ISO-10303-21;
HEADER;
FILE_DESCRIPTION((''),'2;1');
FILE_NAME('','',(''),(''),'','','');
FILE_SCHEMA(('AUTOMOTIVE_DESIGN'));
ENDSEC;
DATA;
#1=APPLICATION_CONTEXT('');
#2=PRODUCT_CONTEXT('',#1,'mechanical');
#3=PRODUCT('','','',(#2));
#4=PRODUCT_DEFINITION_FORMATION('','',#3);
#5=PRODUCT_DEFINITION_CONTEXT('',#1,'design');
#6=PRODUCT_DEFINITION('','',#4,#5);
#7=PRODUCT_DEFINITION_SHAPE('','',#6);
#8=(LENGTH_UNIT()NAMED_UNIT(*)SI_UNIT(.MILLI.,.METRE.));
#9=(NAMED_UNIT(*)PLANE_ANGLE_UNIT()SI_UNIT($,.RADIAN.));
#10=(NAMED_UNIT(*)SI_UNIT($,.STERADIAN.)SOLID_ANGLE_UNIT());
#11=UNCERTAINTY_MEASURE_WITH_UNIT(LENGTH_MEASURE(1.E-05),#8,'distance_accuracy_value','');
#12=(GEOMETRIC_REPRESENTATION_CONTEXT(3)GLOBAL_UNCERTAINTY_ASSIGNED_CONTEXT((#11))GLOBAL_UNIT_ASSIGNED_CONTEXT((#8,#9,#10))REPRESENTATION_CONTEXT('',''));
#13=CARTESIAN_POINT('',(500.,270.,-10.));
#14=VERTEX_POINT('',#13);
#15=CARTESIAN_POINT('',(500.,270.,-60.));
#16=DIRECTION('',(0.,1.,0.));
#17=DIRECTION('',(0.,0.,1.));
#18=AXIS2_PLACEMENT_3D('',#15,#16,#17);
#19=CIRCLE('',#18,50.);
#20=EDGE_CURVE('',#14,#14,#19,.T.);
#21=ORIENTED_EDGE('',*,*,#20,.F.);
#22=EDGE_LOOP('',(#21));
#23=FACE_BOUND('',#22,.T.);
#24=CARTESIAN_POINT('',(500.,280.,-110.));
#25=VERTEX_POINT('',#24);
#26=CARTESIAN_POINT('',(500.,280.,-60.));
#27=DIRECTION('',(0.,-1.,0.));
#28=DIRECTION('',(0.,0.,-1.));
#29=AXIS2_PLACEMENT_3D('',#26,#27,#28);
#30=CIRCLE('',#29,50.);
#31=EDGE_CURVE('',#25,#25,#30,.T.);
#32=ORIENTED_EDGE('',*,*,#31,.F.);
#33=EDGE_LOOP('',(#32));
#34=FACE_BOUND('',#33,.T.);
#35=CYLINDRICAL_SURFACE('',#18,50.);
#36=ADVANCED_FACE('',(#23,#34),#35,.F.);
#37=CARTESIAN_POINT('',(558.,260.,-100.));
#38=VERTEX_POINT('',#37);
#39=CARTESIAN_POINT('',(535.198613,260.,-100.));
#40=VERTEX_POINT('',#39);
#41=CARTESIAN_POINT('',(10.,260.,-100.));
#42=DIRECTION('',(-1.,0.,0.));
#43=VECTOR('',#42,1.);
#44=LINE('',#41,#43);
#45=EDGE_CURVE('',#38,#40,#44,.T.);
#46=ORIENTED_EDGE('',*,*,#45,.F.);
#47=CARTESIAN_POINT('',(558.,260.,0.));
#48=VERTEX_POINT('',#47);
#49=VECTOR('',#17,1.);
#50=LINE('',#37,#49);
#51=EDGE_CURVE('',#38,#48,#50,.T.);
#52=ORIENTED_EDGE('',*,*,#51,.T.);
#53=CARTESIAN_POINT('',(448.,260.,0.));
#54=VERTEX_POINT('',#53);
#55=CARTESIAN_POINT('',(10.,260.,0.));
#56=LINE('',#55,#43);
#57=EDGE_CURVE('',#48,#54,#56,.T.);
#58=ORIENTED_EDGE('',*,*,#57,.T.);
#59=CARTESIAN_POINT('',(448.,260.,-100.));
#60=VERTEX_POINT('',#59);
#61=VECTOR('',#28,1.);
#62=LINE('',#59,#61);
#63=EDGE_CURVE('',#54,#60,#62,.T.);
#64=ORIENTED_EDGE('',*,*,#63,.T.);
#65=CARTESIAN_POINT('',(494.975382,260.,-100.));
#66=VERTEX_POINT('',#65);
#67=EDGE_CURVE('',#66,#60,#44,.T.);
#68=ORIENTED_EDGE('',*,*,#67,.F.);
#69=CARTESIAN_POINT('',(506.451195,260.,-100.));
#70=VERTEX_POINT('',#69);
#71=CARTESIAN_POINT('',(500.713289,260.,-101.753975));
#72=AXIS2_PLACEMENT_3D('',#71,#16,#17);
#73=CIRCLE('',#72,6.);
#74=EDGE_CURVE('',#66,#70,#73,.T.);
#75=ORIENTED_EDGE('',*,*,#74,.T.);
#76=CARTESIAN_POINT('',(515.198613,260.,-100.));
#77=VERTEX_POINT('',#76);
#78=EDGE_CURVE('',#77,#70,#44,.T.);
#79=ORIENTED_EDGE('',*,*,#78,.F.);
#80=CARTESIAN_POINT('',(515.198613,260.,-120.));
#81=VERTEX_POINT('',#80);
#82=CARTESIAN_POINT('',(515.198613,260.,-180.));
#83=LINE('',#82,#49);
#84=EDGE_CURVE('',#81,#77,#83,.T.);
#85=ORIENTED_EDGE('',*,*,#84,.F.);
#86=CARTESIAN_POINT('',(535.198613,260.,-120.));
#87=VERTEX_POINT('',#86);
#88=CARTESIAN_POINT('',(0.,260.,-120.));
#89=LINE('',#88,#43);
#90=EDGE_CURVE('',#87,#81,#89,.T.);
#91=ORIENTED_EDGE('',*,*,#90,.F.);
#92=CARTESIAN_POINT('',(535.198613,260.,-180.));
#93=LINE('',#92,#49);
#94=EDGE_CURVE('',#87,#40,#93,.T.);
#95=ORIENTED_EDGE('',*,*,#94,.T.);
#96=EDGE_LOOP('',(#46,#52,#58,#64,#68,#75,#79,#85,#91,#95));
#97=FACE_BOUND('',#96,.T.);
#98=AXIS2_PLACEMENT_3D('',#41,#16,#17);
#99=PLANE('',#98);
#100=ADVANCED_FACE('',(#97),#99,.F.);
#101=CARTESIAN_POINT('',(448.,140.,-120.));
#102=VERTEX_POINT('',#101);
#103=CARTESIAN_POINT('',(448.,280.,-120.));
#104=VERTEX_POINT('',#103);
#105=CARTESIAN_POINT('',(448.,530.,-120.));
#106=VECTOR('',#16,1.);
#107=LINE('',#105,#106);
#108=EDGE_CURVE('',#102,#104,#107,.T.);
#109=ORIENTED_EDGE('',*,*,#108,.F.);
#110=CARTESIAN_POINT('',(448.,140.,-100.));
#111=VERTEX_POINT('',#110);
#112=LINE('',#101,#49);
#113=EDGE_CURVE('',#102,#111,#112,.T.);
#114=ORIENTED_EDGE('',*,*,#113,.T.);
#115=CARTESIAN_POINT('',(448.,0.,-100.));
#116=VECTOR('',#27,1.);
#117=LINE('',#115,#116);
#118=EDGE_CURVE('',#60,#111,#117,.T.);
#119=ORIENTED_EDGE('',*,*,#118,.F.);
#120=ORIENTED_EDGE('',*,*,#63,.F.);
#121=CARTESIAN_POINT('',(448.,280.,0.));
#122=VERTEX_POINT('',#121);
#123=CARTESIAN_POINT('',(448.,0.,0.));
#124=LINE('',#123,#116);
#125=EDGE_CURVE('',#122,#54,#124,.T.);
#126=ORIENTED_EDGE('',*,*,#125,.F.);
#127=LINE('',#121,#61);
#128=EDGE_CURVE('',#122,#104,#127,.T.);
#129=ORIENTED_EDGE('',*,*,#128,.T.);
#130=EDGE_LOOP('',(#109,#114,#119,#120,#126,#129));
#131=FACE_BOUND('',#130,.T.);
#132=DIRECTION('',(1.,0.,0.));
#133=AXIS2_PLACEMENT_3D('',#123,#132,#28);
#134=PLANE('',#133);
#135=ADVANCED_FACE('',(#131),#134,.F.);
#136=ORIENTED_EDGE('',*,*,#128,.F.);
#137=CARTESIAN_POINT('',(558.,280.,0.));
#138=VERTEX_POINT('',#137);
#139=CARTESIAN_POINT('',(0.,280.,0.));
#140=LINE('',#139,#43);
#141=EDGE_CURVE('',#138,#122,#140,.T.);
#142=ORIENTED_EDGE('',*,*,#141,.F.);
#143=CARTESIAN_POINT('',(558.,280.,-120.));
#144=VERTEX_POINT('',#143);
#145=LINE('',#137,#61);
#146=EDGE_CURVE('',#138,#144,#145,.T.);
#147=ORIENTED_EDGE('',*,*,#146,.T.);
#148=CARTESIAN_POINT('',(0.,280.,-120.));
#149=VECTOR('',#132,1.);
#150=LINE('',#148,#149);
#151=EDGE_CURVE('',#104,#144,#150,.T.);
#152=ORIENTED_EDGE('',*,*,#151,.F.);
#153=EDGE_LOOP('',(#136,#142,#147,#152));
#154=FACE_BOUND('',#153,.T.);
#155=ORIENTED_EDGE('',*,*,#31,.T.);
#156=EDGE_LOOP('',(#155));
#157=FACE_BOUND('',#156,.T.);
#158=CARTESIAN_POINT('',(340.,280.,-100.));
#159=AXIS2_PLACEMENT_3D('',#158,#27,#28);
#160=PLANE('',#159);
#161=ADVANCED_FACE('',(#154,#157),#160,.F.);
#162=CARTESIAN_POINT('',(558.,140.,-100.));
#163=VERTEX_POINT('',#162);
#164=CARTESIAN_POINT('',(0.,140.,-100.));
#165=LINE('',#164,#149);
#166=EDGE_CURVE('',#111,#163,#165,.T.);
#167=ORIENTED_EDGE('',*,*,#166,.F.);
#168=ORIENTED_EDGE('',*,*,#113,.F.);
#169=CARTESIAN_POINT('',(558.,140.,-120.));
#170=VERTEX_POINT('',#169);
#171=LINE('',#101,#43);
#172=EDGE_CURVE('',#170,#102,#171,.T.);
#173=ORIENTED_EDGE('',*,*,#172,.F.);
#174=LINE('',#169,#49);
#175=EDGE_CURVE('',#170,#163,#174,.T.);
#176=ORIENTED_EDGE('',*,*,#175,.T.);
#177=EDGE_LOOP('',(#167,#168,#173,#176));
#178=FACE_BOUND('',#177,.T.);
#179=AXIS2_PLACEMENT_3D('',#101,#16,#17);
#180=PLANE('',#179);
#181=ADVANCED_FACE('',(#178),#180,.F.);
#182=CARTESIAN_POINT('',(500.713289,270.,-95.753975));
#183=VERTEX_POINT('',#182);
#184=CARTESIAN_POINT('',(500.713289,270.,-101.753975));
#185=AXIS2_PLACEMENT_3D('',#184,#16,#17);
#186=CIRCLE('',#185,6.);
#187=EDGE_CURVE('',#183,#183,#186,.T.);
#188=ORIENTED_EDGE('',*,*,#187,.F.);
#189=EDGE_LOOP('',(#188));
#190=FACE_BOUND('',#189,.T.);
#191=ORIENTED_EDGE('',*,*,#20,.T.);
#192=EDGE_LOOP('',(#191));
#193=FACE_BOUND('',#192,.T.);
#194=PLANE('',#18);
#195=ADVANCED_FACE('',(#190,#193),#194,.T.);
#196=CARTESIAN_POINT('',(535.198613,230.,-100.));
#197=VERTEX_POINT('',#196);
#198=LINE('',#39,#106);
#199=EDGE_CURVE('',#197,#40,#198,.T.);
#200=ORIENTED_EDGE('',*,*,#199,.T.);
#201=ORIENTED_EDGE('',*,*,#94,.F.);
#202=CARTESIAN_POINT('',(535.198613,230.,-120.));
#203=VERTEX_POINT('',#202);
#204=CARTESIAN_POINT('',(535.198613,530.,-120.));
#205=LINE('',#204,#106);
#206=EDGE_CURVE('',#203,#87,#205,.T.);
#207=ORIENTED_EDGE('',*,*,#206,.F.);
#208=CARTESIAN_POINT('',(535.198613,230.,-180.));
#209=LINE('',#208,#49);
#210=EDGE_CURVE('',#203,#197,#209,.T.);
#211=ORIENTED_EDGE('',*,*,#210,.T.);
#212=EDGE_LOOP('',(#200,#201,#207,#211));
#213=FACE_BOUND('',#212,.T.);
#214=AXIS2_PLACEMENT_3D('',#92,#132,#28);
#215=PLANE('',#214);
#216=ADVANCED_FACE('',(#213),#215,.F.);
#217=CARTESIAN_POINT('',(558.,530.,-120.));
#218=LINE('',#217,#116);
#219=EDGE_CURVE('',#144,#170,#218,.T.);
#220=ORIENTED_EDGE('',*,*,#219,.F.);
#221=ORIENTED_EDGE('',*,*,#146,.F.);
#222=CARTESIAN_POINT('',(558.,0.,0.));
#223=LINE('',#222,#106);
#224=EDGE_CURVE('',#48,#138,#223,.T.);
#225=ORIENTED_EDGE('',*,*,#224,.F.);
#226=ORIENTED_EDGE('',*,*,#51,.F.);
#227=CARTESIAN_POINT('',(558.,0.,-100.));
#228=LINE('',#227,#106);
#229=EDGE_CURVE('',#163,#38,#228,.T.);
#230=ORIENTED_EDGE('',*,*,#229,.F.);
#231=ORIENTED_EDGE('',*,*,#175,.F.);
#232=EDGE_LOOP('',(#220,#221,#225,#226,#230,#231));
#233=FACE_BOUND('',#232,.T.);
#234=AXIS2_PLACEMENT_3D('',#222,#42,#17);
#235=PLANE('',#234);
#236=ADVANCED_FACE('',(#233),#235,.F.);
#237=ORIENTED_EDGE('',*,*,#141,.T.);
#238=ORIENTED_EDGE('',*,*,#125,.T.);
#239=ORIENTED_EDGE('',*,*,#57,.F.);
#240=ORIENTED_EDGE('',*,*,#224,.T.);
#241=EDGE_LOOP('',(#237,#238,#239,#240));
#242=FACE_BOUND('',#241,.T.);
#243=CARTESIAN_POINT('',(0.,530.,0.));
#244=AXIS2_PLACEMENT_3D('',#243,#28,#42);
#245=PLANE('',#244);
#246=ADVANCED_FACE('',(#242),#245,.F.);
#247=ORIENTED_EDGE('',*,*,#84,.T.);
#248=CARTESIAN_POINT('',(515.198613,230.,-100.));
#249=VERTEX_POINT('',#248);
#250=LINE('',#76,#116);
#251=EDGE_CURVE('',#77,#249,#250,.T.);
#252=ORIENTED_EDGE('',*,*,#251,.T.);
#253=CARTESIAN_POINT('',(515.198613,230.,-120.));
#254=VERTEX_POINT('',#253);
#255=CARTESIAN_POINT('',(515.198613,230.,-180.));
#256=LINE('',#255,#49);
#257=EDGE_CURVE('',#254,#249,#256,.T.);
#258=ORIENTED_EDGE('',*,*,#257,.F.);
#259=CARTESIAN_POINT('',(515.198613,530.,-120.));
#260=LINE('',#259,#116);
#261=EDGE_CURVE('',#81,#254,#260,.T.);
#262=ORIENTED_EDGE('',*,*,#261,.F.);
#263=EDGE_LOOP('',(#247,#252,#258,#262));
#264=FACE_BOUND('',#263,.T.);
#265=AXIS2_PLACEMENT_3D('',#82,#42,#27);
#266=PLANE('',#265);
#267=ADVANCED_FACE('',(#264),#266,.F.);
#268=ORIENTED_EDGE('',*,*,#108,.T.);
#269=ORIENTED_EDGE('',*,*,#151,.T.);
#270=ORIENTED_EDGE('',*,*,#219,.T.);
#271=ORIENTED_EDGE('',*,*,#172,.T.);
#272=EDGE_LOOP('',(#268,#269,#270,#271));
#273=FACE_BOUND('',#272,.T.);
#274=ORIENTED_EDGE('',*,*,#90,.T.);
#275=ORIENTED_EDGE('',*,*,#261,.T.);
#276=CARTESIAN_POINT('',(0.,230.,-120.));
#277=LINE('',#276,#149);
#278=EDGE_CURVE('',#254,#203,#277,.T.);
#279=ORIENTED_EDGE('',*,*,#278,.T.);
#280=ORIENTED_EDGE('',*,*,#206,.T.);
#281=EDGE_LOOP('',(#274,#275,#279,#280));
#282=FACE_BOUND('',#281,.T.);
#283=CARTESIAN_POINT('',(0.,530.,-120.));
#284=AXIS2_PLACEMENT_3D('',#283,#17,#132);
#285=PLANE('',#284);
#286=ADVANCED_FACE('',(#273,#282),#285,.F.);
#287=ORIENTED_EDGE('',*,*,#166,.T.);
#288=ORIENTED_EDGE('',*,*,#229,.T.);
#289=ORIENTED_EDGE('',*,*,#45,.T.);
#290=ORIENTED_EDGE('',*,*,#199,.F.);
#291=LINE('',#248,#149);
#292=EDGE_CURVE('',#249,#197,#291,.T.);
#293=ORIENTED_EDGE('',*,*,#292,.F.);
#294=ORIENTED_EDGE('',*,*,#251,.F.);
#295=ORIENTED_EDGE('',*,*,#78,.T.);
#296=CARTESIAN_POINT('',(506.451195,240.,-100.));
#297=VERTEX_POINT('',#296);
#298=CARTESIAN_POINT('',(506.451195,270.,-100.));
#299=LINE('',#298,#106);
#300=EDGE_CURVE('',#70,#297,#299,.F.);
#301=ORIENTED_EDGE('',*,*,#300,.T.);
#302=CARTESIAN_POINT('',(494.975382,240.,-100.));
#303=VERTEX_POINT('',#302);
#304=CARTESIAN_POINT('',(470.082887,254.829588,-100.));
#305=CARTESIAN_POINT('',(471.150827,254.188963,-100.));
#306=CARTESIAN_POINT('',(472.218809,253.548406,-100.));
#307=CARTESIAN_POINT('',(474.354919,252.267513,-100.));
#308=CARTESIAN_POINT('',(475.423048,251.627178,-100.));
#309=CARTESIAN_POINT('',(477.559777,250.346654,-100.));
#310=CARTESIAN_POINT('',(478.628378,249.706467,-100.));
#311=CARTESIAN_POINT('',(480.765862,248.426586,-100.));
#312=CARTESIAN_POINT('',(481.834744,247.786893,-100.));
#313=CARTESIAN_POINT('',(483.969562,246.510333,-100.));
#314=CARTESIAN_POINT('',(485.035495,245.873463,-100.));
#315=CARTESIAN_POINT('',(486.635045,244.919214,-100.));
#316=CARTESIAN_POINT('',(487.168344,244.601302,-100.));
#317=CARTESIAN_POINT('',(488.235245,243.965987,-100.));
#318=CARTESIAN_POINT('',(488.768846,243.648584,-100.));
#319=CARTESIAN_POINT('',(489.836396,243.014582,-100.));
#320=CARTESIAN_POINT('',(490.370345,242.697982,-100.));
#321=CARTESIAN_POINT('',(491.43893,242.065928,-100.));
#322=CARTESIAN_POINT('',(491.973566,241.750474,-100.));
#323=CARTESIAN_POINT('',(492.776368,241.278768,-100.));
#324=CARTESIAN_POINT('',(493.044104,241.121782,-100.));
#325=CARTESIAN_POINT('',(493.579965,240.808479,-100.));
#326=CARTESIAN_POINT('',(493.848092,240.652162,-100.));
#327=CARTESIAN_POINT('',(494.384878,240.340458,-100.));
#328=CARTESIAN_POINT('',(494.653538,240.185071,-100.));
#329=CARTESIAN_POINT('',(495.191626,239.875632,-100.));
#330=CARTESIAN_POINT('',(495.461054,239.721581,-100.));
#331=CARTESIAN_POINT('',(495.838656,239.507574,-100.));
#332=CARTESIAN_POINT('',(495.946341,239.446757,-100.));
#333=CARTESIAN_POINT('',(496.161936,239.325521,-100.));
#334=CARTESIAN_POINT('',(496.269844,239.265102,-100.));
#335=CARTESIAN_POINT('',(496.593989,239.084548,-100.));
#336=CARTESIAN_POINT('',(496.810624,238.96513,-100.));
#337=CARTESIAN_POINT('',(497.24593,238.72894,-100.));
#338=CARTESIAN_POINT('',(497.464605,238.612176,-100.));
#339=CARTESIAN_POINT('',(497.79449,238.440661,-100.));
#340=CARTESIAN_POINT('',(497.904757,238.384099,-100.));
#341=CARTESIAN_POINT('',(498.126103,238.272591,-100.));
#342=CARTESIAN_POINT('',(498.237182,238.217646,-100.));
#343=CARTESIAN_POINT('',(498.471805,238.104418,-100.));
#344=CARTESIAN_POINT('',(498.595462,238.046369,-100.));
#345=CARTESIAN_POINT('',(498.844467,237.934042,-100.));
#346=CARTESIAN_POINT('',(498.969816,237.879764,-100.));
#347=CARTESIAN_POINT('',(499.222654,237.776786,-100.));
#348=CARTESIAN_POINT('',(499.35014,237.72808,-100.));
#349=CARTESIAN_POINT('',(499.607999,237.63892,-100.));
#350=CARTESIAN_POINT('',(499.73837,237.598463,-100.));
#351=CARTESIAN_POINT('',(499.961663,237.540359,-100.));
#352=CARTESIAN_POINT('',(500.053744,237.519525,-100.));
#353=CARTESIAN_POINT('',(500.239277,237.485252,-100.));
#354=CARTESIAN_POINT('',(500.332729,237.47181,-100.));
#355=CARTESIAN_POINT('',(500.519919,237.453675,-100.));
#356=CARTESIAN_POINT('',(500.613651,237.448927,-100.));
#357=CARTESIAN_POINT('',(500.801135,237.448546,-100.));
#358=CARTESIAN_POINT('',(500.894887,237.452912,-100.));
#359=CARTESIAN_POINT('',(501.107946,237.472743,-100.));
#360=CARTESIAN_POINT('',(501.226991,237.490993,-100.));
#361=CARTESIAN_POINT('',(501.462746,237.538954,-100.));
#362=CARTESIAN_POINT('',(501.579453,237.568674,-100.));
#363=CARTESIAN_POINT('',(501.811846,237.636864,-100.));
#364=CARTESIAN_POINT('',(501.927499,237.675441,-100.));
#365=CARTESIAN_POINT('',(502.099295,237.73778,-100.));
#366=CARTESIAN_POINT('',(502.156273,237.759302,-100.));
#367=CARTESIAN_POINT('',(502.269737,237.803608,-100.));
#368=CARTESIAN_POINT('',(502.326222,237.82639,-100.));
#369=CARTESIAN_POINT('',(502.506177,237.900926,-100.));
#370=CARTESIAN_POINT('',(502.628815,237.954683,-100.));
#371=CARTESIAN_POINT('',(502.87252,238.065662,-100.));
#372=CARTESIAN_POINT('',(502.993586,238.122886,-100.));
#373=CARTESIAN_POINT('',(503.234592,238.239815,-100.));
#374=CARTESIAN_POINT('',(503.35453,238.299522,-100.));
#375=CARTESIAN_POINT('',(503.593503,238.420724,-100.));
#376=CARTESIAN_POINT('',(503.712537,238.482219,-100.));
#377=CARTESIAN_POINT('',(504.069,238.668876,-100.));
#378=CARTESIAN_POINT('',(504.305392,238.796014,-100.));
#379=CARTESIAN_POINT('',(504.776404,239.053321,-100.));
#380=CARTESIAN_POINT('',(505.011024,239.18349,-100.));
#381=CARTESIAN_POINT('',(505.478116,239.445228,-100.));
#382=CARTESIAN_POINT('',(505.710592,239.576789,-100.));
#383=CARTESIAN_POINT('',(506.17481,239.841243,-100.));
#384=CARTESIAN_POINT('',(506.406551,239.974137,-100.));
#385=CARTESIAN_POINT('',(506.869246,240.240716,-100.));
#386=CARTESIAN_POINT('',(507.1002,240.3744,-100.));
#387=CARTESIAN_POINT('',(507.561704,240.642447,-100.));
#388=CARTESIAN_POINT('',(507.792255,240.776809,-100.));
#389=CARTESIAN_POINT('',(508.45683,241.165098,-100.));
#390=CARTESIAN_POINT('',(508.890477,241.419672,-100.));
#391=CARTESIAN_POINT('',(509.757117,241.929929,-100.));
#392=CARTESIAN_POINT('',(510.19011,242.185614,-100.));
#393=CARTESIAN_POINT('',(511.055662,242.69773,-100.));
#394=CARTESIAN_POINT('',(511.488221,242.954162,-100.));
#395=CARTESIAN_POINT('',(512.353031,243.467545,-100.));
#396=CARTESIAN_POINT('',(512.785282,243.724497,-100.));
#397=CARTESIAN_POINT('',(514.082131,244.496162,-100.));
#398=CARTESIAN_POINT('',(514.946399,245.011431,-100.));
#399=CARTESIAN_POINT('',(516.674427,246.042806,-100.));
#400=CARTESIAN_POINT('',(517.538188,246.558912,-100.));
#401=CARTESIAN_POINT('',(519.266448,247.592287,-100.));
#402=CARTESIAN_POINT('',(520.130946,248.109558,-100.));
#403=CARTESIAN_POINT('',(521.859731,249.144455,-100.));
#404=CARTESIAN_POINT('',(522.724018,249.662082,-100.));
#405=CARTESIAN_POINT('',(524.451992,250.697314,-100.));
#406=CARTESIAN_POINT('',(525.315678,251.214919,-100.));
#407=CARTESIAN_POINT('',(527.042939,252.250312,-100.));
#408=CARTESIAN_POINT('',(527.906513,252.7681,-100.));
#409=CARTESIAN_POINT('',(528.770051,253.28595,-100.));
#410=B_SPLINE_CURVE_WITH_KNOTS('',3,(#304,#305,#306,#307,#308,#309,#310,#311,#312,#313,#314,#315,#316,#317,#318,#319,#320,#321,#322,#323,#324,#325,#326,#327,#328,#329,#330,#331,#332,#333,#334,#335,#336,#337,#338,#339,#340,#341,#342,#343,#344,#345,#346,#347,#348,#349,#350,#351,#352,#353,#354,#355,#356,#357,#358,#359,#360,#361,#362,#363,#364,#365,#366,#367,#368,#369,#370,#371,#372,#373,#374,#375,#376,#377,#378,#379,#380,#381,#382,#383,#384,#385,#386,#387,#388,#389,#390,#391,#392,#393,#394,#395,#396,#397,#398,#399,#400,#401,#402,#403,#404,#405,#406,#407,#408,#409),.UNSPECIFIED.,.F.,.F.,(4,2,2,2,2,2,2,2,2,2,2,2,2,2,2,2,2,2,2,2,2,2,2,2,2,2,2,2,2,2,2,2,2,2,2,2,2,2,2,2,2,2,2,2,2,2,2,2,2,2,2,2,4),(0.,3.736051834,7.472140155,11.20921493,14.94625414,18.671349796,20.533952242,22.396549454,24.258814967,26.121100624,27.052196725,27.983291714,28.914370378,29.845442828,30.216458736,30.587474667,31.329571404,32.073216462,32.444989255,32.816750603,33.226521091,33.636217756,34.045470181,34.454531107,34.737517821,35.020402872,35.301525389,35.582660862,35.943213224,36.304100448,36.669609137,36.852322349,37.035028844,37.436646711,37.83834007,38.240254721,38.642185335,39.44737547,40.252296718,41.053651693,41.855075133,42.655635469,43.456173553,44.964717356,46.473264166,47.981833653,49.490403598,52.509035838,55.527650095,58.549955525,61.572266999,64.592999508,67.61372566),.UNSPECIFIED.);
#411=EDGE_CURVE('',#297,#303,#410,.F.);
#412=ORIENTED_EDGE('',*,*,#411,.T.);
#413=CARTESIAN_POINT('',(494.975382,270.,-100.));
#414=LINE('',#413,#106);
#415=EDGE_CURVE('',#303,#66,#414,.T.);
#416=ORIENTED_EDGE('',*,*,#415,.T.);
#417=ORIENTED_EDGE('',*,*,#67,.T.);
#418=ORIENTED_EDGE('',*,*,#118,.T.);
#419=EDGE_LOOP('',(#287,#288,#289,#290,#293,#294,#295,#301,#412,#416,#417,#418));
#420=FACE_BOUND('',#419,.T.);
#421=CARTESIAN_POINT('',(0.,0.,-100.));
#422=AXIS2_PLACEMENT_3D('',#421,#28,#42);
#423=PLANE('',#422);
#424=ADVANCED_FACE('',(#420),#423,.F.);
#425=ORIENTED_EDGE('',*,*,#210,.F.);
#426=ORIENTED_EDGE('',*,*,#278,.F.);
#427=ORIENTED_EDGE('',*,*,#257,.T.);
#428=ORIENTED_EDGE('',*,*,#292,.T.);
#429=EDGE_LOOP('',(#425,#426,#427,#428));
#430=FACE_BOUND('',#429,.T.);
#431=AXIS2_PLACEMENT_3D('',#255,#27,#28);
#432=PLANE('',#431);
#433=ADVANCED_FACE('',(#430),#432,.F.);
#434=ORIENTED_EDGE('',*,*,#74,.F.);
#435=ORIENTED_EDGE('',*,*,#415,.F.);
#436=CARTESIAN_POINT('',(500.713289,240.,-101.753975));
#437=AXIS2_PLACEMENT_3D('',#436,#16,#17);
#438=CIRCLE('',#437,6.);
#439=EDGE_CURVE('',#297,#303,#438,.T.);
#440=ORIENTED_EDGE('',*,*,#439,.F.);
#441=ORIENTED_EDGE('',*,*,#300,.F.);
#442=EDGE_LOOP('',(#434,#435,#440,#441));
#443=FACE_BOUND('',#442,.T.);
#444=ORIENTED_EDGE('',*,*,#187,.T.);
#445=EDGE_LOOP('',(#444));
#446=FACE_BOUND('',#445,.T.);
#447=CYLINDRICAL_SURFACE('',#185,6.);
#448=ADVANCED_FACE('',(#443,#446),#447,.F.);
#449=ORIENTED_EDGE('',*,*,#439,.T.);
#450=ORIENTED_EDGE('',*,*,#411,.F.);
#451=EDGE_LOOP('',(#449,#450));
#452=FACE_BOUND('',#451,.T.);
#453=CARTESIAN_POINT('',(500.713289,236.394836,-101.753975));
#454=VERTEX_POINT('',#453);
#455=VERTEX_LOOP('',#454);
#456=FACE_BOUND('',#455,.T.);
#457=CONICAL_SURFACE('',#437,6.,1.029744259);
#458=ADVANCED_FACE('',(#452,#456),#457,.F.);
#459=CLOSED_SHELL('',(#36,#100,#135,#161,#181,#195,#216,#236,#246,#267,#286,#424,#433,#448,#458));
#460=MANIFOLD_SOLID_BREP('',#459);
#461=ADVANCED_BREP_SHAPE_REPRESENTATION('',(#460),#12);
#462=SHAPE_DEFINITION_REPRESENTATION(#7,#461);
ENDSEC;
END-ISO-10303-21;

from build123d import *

# Parameters (mm, degrees)
SKETCH1_W                      = 670
SKETCH1_H                      = 120
BOSS_EXTRUDE1_DEPTH            = 530
SKETCH2_W                      = 100
SKETCH2_H                      = 200
SKETCH2_W_2                    = 650
SKETCH2_H_2                    = 250
CUT_EXTRUDE1_DEPTH             = 100
SKETCH3_R                      = 50
CUT_EXTRUDE2_DEPTH             = 260
F_12_0_12_DIAMETER_HOLE2_D     = 12
F_12_0_12_DIAMETER_HOLE2_DEPTH = 30
F_12_0_12_DIAMETER_HOLE2_TIP   = 3.605163714
SKETCH8_W                      = 650
SKETCH8_H                      = 50
BOSS_EXTRUDE2_DEPTH            = 5
SKETCH9_W                      = 10
SKETCH9_H                      = 250
CUT_EXTRUDE3_DEPTH             = 717
CUT_EXTRUDE4_DEPTH             = 5
SKETCH11_W                     = 10
SKETCH11_H                     = 100
BOSS_EXTRUDE3_DEPTH            = 78
BOSS_EXTRUDE3_2_DEPTH          = 78
BOSS_EXTRUDE3_3_DEPTH          = 78
SKETCH12_W                     = 20
SKETCH12_H                     = 30
CUT_EXTRUDE5_DEPTH             = 80
SKETCH15_W                     = 30
SKETCH15_H                     = 23.536156656
SKETCH15_H_2                   = 28.986603691
CUT_EXTRUDE7_DEPTH             = 35
SHELL1_T                       = -3
SKETCH16_W                     = 14
SKETCH16_H                     = 14
CUT_EXTRUDE8_DEPTH             = 35
SKETCH17_W                     = 5.729882812
SKETCH17_H                     = 17.428393554
SKETCH17_W_2                   = 13.369726562
SKETCH17_H_2                   = 3.342431641
BOSS_EXTRUDE4_DEPTH            = 5
CUT_EXTRUDE10_DEPTH            = 863.670273187
CUT_EXTRUDE10_DEPTH_BACK       = 863.670273187
SKETCH18_W                     = 670
SKETCH18_H                     = 250
CUT_EXTRUDE11_DEPTH            = 737.002717386
CUT_EXTRUDE11_DEPTH_BACK       = 737.002717386
SKETCH19_W                     = 448
SKETCH19_H                     = 280
SKETCH19_W_2                   = 112
CUT_EXTRUDE12_DEPTH            = 633.268930124
CUT_EXTRUDE12_DEPTH_BACK       = 633.268930124
SKETCH20_W                     = 110
SKETCH20_H                     = 140


with BuildPart() as part:
    # Sketch1 → Boss-Extrude1 (new body)
    with BuildSketch(Plane(origin=(0, 0, 0), x_dir=(1, 0, 0), z_dir=(0, 1, 0))):
        with Locations((335, 60)):
            Rectangle(SKETCH1_W, SKETCH1_H)
    extrude(amount=BOSS_EXTRUDE1_DEPTH)

    # Sketch2 → Cut-Extrude1 (cut)
    with BuildSketch(Plane.XY):
        with Locations((60, 380)):
            Rectangle(SKETCH2_W, SKETCH2_H)
        with Locations((170, 380)):
            Rectangle(SKETCH2_W, SKETCH2_H)
        with Locations((280, 380)):
            Rectangle(SKETCH2_W, SKETCH2_H)
        with Locations((390, 380)):
            Rectangle(SKETCH2_W, SKETCH2_H)
        with Locations((500, 380)):
            Rectangle(SKETCH2_W, SKETCH2_H)
        with Locations((610, 380)):
            Rectangle(SKETCH2_W, SKETCH2_H)
        with Locations((335, 135)):
            Rectangle(SKETCH2_W_2, SKETCH2_H_2)
    extrude(amount=-CUT_EXTRUDE1_DEPTH, mode=Mode.SUBTRACT)

    # Sketch3 → Cut-Extrude2 (cut)
    with BuildSketch(Plane(origin=(0, 530, 0), x_dir=(1, 0, 0), z_dir=(0, 1, 0))):
        with Locations(Location((60, 60, 0), (0, 0, 270))):
            Circle(SKETCH3_R)
        with Locations(Location((170, 60, 0), (0, 0, 270))):
            Circle(SKETCH3_R)
        with Locations(Location((280, 60, 0), (0, 0, 270))):
            Circle(SKETCH3_R)
        with Locations(Location((390, 60, 0), (0, 0, 270))):
            Circle(SKETCH3_R)
        with Locations(Location((500, 60, 0), (0, 0, 270))):
            Circle(SKETCH3_R)
        with Locations(Location((610, 60, 0), (0, 0, 270))):
            Circle(SKETCH3_R)
    extrude(amount=-CUT_EXTRUDE2_DEPTH, mode=Mode.SUBTRACT)

    # Ø12.0 (12) Diameter Hole2
    with Locations(Plane(origin=(59.704642413, 270, -102.411697903), x_dir=(0, 0, 1), z_dir=(0, 1, 0))):
        with Locations((0, 0), (-0.195888006, 111.8520513), (0.014838595, 221.167624818), (-0.341843303, 331.364008353), (0.657723149, 441.008646429), (1.288998006, 549.811854685)):
            Hole(F_12_0_12_DIAMETER_HOLE2_D / 2, depth=F_12_0_12_DIAMETER_HOLE2_DEPTH)
            with Locations((0, 0, -(F_12_0_12_DIAMETER_HOLE2_DEPTH + F_12_0_12_DIAMETER_HOLE2_TIP / 2))):  # 118° drill point
                Cone(0, F_12_0_12_DIAMETER_HOLE2_D / 2, F_12_0_12_DIAMETER_HOLE2_TIP, mode=Mode.SUBTRACT)

    # Sketch8 → Boss-Extrude2 (add)
    with BuildSketch(Plane.XY):
        with Locations((335, 305)):
            Rectangle(SKETCH8_W, SKETCH8_H)
    extrude(amount=-BOSS_EXTRUDE2_DEPTH)

    # Sketch9 → Cut-Extrude3 (cut)
    with BuildSketch(Plane(origin=(670, 0, 0), x_dir=(0, 0, -1), z_dir=(1, 0, 0))):
        with Locations((15, 135)):
            Rectangle(SKETCH9_W, SKETCH9_H)
    extrude(amount=-CUT_EXTRUDE3_DEPTH, mode=Mode.SUBTRACT)

    # Sketch10 → Cut-Extrude4 (cut)
    with BuildSketch(Plane(origin=(0, 10, 0), x_dir=(1, 0, 0), z_dir=(0, 1, 0))):
        Polygon((365, 61.943560596), (350, 87.924322709), (320, 87.924322709), (305, 61.943560596), (320, 35.962798482), (350, 35.962798482), align=None)
    extrude(amount=-CUT_EXTRUDE4_DEPTH, mode=Mode.SUBTRACT)

    # Sketch12 → Cut-Extrude5 (cut)
    with BuildSketch(Plane.XY.offset(-100)):
        with Locations((85.198613037, 245)):
            Rectangle(SKETCH12_W, SKETCH12_H)
        with Locations((195.198613037, 245)):
            Rectangle(SKETCH12_W, SKETCH12_H)
        with Locations((305.198613037, 245)):
            Rectangle(SKETCH12_W, SKETCH12_H)
        with Locations((415.198613037, 245)):
            Rectangle(SKETCH12_W, SKETCH12_H)
        with Locations((525.198613037, 245)):
            Rectangle(SKETCH12_W, SKETCH12_H)
        with Locations((635.198613037, 245)):
            Rectangle(SKETCH12_W, SKETCH12_H)
    extrude(amount=-CUT_EXTRUDE5_DEPTH, mode=Mode.SUBTRACT)

    # Sketch17 → Boss-Extrude4 (add)
    # profile 1 of 9: a face of its own
    with BuildSketch(Plane.XY):
        with BuildLine():
            Line((527.508830928, 289.835452458), (527.508830928, 307.263846012))
            Line((527.508830928, 307.263846012), (534.861434459, 307.263846012))
            add(Edge.make_bspline(
                [(534.861434459, 307.263846012), (535.181337774, 307.258256848), (535.803061116, 307.24739446), (536.703508491, 307.139069344), (537.544992916, 306.975202489), (538.325061607, 306.737496792), (539.040841948, 306.426020155), (539.698044515, 306.051894954), (540.290333057, 305.605079277), (540.822348212, 305.090232636), (541.284521701, 304.502523111), (541.692171296, 303.852565801), (542.030284458, 303.129762281), (542.309377095, 302.341316546), (542.5243908, 301.484161689), (542.679660381, 300.560045938), (542.773357357, 299.567500804), (542.783368073, 298.883107022), (542.788518428, 298.530997273)],
                knots=[0, 0, 0, 0, 1.135059408, 2.20595691, 3.214417064, 4.174978569, 5.094187092, 5.980001006, 6.853065862, 7.720814779, 8.600404634, 9.50058483, 10.438414914, 11.426825708, 12.465239141, 13.571113463, 14.750376389, 16, 16, 16, 16], degree=3))
            add(Edge.make_bspline(
                [(542.788518428, 298.530997273), (542.781740751, 298.180151665), (542.768592871, 297.499553336), (542.676885992, 296.511518461), (542.516733301, 295.591080531), (542.296748778, 294.736450427), (542.003051046, 293.953120444), (541.654236167, 293.233205539), (541.233025793, 292.585291498), (540.753136904, 292.000029304), (540.204772188, 291.484681411), (539.587651059, 291.044279297), (538.910779309, 290.668464036), (538.169670382, 290.361903209), (537.364073889, 290.124869172), (536.495133477, 289.954199984), (535.562644449, 289.853487388), (534.920131033, 289.841584621), (534.58911581, 289.835452458)],
                knots=[0, 0, 0, 0, 1.228418252, 2.382983832, 3.470276728, 4.496757894, 5.468023682, 6.394867725, 7.292157164, 8.167372942, 9.039072913, 9.918728341, 10.815246345, 11.744296628, 12.720973084, 13.750736166, 14.841206188, 16, 16, 16, 16], degree=3))
            Line((534.58911581, 289.835452458), (527.508830928, 289.835452458))
        make_face()
        with BuildLine():
            Line((533.238713741, 291.745413395), (534.048208904, 291.745413395))
            add(Edge.make_bspline(
                [(534.048208904, 291.745413395), (534.172894012, 291.749291978), (534.413033311, 291.756761998), (534.758676231, 291.825976613), (535.075745017, 291.938271137), (535.365749176, 292.094802589), (535.623404602, 292.300450923), (535.848862806, 292.551404902), (536.04776914, 292.844737637), (536.217685755, 293.190205032), (536.364284647, 293.596533622), (536.481764702, 294.076367921), (536.592118304, 294.630928744), (536.673672739, 295.265507643), (536.740044562, 295.978448886), (536.788346679, 296.768428292), (536.812018936, 297.636801208), (536.817188964, 298.241258393), (536.819890499, 298.55711002)],
                knots=[0, 0, 0, 0, 0.728710832, 1.403472396, 2.052289494, 2.690292559, 3.321919393, 3.970736491, 4.656696891, 5.388631723, 6.217040872, 7.17856157, 8.275589967, 9.523440737, 10.918935818, 12.463926104, 14.152268318, 16, 16, 16, 16], degree=3))
            add(Edge.make_bspline(
                [(536.819890499, 298.55711002), (536.8171426, 298.871715251), (536.811863063, 299.476166083), (536.7886758, 300.343334385), (536.739579947, 301.133216935), (536.674703848, 301.843934916), (536.589660404, 302.476324031), (536.488366458, 303.031681737), (536.362441588, 303.507627045), (536.222158727, 303.914921549), (536.050140993, 304.256514038), (535.858357073, 304.554097881), (535.62547107, 304.79746827), (535.36991257, 305.004888479), (535.079348843, 305.160875844), (534.761320266, 305.273944358), (534.414185903, 305.34216807), (534.172870641, 305.349893944), (534.048208904, 305.353885075)],
                knots=[0, 0, 0, 0, 1.842836665, 3.540640921, 5.080358154, 6.47765669, 7.719902824, 8.816971715, 9.781579111, 10.601733135, 11.334613876, 12.017393917, 12.666641099, 13.29908421, 13.937911793, 14.587567384, 15.270347425, 16, 16, 16, 16], degree=3))
            Line((534.048208904, 305.353885075), (533.238713741, 305.353885075))
            Line((533.238713741, 305.353885075), (533.238713741, 291.745413395))
        make_face(mode=Mode.SUBTRACT)
    # profile 2 of 9: a face of its own
    with BuildSketch(Plane.XY):
        with Locations((547.563420772, 298.549649235)):
            Rectangle(SKETCH17_W, SKETCH17_H)
    # profile 3 of 9: a face of its own
    with BuildSketch(Plane.XY):
        Polygon((564.514324092, 307.263846012), (564.514324092, 305.115139958), (558.545696163, 305.115139958), (558.545696163, 299.862747379), (563.559343624, 299.862747379), (563.559343624, 297.714041325), (558.545696163, 297.714041325), (558.545696163, 289.835452458), (552.81581335, 289.835452458), (552.81581335, 307.263846012), align=None)
    # profile 4 of 9: a face of its own
    with BuildSketch(Plane.XY):
        Polygon((577.645305538, 307.263846012), (577.645305538, 305.115139958), (571.676677608, 305.115139958), (571.676677608, 299.862747379), (576.690325069, 299.862747379), (576.690325069, 297.714041325), (571.676677608, 297.714041325), (571.676677608, 289.835452458), (565.946794795, 289.835452458), (565.946794795, 307.263846012), align=None)
    # profile 5 of 9: a face of its own
    with BuildSketch(Plane.XY):
        with Locations((584.330168819, 287.448001286)):
            Rectangle(SKETCH17_W_2, SKETCH17_H_2)
    # profile 6 of 9: a face of its own
    with BuildSketch(Plane.XY):
        with BuildLine():
            Line((605.578484249, 307.263846012), (605.578484249, 295.602639195))
            add(Edge.make_bspline(
                [(605.578484249, 295.602639195), (605.574209777, 295.35989389), (605.565919345, 294.889083964), (605.480877158, 294.20653885), (605.349958188, 293.569747554), (605.15926554, 292.978838165), (604.911867049, 292.436847071), (604.616163877, 291.936663973), (604.260702644, 291.487723021), (603.847299908, 291.08966617), (603.386881991, 290.731670113), (602.867295001, 290.425440037), (602.293741958, 290.168488385), (601.66690529, 289.960990771), (600.988052682, 289.797299786), (600.254912883, 289.679078851), (599.467035781, 289.60781007), (598.923618241, 289.60048219), (598.643684673, 289.59670734)],
                knots=[0, 0, 0, 0, 1.108173197, 2.149326602, 3.136215123, 4.073726706, 4.978516626, 5.852185058, 6.72141202, 7.584905625, 8.467554395, 9.379216169, 10.332422268, 11.332766067, 12.390653242, 13.518530507, 14.721707419, 16, 16, 16, 16], degree=3))
            add(Edge.make_bspline(
                [(598.643684673, 289.59670734), (598.373688491, 289.600411437), (597.851346557, 289.607577482), (597.093280473, 289.679448684), (596.387523889, 289.797736542), (595.733050135, 289.960122315), (595.130189942, 290.169220301), (594.579048171, 290.42623041), (594.078350789, 290.732835498), (593.633858028, 291.090104794), (593.234289459, 291.486851767), (592.899913678, 291.940746827), (592.609043638, 292.435866034), (592.375223767, 292.980322997), (592.191754821, 293.570441519), (592.063541006, 294.20666921), (591.983676196, 294.889343196), (591.974661767, 295.359932437), (591.970012569, 295.602639195)],
                knots=[0, 0, 0, 0, 1.258901956, 2.435505865, 3.547148904, 4.59359074, 5.576649289, 6.5183682, 7.424469602, 8.307507093, 9.172751023, 10.042627298, 10.928839176, 11.845659241, 12.799442865, 13.80597989, 14.868432463, 16, 16, 16, 16], degree=3))
            Line((591.970012569, 295.602639195), (591.970012569, 307.263846012))
            Line((591.970012569, 307.263846012), (597.699895381, 307.263846012))
            Line((597.699895381, 307.263846012), (597.699895381, 295.457153889))
            add(Edge.make_bspline(
                [(597.699895381, 295.457153889), (597.700816195, 295.287996189), (597.702584578, 294.963135903), (597.729908723, 294.499051493), (597.768241004, 294.079064133), (597.828226169, 293.705517832), (597.90066041, 293.377063412), (597.989882091, 293.09281535), (598.094998068, 292.852496478), (598.225239063, 292.654232043), (598.380826623, 292.495135011), (598.55368342, 292.353231761), (598.757556996, 292.238543846), (598.987648905, 292.146224908), (599.243380948, 292.070549638), (599.526120553, 292.020376099), (599.83553351, 291.990763905), (600.049971942, 291.986424568), (600.161954402, 291.984158512)],
                knots=[0, 0, 0, 0, 1.622370975, 3.115695595, 4.458049099, 5.666011203, 6.742434742, 7.681714947, 8.519814998, 9.250928664, 9.942747364, 10.646898194, 11.389596108, 12.175933929, 13.021386247, 13.943159715, 14.925891993, 16, 16, 16, 16], degree=3))
            add(Edge.make_bspline(
                [(600.161954402, 291.984158512), (600.283927219, 291.987190593), (600.521124756, 291.993087005), (600.86597014, 292.03390861), (601.187714881, 292.103380086), (601.484890424, 292.205377303), (601.758665297, 292.332852529), (602.012761516, 292.484567923), (602.236391413, 292.674631152), (602.439076761, 292.888441291), (602.620738276, 293.128529789), (602.771757722, 293.399928575), (602.905501548, 293.697121508), (603.005823683, 294.025060118), (603.089837826, 294.379999499), (603.146989706, 294.763086929), (603.186210275, 295.174074524), (603.189394751, 295.457053988), (603.191033077, 295.602639195)],
                knots=[0, 0, 0, 0, 1.083870311, 2.107775948, 3.08105344, 4.003637981, 4.893545291, 5.761570557, 6.624657808, 7.49233129, 8.376387281, 9.291996285, 10.246843261, 11.267344133, 12.334180325, 13.486053461, 14.706643157, 16, 16, 16, 16], degree=3))
            Line((603.191033077, 295.602639195), (603.191033077, 307.263846012))
            Line((603.191033077, 307.263846012), (605.578484249, 307.263846012))
        make_face()
    # profile 7 of 9: a face of its own
    with BuildSketch(Plane.XY):
        with BuildLine():
            Line((619.731593227, 302.015183827), (616.739818477, 301.526502415))
            add(Edge.make_bspline(
                [(616.739818477, 301.526502415), (616.748849224, 301.670726223), (616.765660669, 301.939210177), (616.78429066, 302.312269209), (616.796668381, 302.625642376), (616.798628236, 302.814722915), (616.799504756, 302.899286839)],
                knots=[0, 0, 0, 0, 1.261802504, 2.348944521, 3.261585937, 4, 4, 4, 4], degree=3))
            add(Edge.make_bspline(
                [(616.799504756, 302.899286839), (616.798306068, 303.007660677), (616.795968139, 303.219033721), (616.750451916, 303.523894877), (616.694806916, 303.811547356), (616.604352699, 304.076787391), (616.488181329, 304.320314265), (616.348943917, 304.543955606), (616.184187178, 304.745078709), (615.995833421, 304.928129987), (615.778009957, 305.083200131), (615.536269472, 305.218702836), (615.269765326, 305.333844758), (614.978065514, 305.431346685), (614.660683072, 305.504624438), (614.319025281, 305.556776695), (613.952471696, 305.585673441), (613.699597795, 305.590260771), (613.568984889, 305.592630192)],
                knots=[0, 0, 0, 0, 1.079280541, 2.105035848, 3.067950317, 3.99715044, 4.889989748, 5.753421302, 6.617030865, 7.476358039, 8.364190572, 9.274590025, 10.235106994, 11.254473582, 12.337095886, 13.478601727, 14.697662529, 16, 16, 16, 16], degree=3))
            add(Edge.make_bspline(
                [(613.568984889, 305.592630192), (613.391954632, 305.58912286), (613.059112606, 305.582528579), (612.595688488, 305.495339748), (612.198743126, 305.361419257), (611.87165349, 305.163811893), (611.613188167, 304.909795747), (611.433841092, 304.593316589), (611.323009072, 304.224665915), (611.313400221, 303.959558324), (611.308367061, 303.820693775)],
                knots=[0, 0, 0, 0, 1.294917039, 2.43462794, 3.440028966, 4.347597256, 5.210608309, 6.06356377, 6.985685997, 8, 8, 8, 8], degree=3))
            add(Edge.make_bspline(
                [(611.308367061, 303.820693775), (611.317562032, 303.705133219), (611.336106628, 303.472068433), (611.47315858, 303.132808312), (611.695999602, 302.811560885), (612.009295906, 302.510664216), (612.404107796, 302.221967273), (612.884407504, 301.948533431), (613.450813789, 301.688189695), (613.862519081, 301.536023727), (614.080048656, 301.455624958)],
                knots=[0, 0, 0, 0, 0.716839541, 1.445735977, 2.240793036, 3.131329288, 4.131129903, 5.273471266, 6.559404876, 8, 8, 8, 8], degree=3))
            add(Edge.make_bspline(
                [(614.080048656, 301.455624958), (614.335934702, 301.364918412), (614.834564244, 301.188164095), (615.547657928, 300.88707802), (616.213068388, 300.5749594), (616.829579094, 300.246613346), (617.397833174, 299.90520698), (617.914851624, 299.544556457), (618.386199073, 299.173962102), (618.807001026, 298.783874588), (619.177995113, 298.378100064), (619.4958685, 297.952745357), (619.771807525, 297.51723103), (619.991113975, 297.061458502), (620.169645242, 296.594624218), (620.292698657, 296.11024444), (620.364288243, 295.609761088), (620.37516617, 295.270864226), (620.380681514, 295.099036213)],
                knots=[0, 0, 0, 0, 1.359488612, 2.649152603, 3.874964776, 5.039588756, 6.146130126, 7.193090393, 8.194917302, 9.146793662, 10.063845301, 10.944476293, 11.803344532, 12.641736646, 13.473440096, 14.302714936, 15.139439897, 16, 16, 16, 16], degree=3))
            add(Edge.make_bspline(
                [(620.380681514, 295.099036213), (620.374476075, 294.902306495), (620.362285176, 294.515820995), (620.280160209, 293.948630617), (620.138011896, 293.409496554), (619.938489338, 292.895972278), (619.681049879, 292.411946655), (619.366518754, 291.954381076), (618.996510229, 291.525099427), (618.5710008, 291.128381035), (618.102222518, 290.765302239), (617.587803957, 290.450854345), (617.034458515, 290.187092261), (616.444107988, 289.968993032), (615.81453624, 289.801373099), (615.145337453, 289.685291013), (614.438790193, 289.606619894), (613.954683001, 289.600062276), (613.70700941, 289.59670734)],
                knots=[0, 0, 0, 0, 0.972121714, 1.909782367, 2.824924061, 3.721832975, 4.62620438, 5.527836938, 6.46026819, 7.421000932, 8.398101015, 9.385579713, 10.394244048, 11.422703992, 12.491421888, 13.608778581, 14.776629625, 16, 16, 16, 16], degree=3))
            add(Edge.make_bspline(
                [(613.70700941, 289.59670734), (613.445745367, 289.599650312), (612.939893069, 289.605348413), (612.207608113, 289.66709241), (611.525297432, 289.760984454), (610.893395078, 289.899706116), (610.309273131, 290.072394336), (609.776099392, 290.288320955), (609.295310255, 290.547303481), (608.863217672, 290.843007892), (608.478306623, 291.175775461), (608.148120946, 291.551766865), (607.86942369, 291.967163224), (607.639947144, 292.421521488), (607.466477665, 292.917583541), (607.339164663, 293.449829748), (607.264537999, 294.021332449), (607.254747521, 294.414908557), (607.249700069, 294.617815586)],
                knots=[0, 0, 0, 0, 1.342201143, 2.598733168, 3.773451092, 4.878874364, 5.91991243, 6.900006476, 7.829142054, 8.72062616, 9.585588575, 10.436728592, 11.283829734, 12.149664931, 13.044964919, 13.977937424, 14.957531465, 16, 16, 16, 16], degree=3))
            add(Edge.make_bspline(
                [(607.249700069, 294.617815586), (607.250803815, 294.692425759), (607.253213998, 294.855347393), (607.260452266, 295.122772538), (607.275636683, 295.433682216), (607.29037174, 295.656130545), (607.298195171, 295.774237248)],
                knots=[0, 0, 0, 0, 0.773500207, 1.689044709, 2.77302154, 4, 4, 4, 4], degree=3))
            Line((607.298195171, 295.774237248), (610.36457777, 296.337526509))
            add(Edge.make_bspline(
                [(610.36457777, 296.337526509), (610.326952988, 296.136337493), (610.255606535, 295.754830366), (610.178678473, 295.21219969), (610.124206629, 294.733311493), (610.11767002, 294.435147371), (610.114641475, 294.297001835)],
                knots=[0, 0, 0, 0, 1.192988372, 2.262218769, 3.194850416, 4, 4, 4, 4], degree=3))
            add(Edge.make_bspline(
                [(610.114641475, 294.297001835), (610.116191817, 294.183708768), (610.119182568, 293.965156219), (610.159053378, 293.648552813), (610.215988606, 293.352999663), (610.302906772, 293.079707227), (610.411206928, 292.826307836), (610.544682453, 292.59538211), (610.704385489, 292.386485019), (610.887496571, 292.200099922), (611.094689168, 292.033628705), (611.327456494, 291.892756696), (611.58347653, 291.771733922), (611.864681562, 291.677479524), (612.167961721, 291.596080628), (612.497219749, 291.548235723), (612.849461228, 291.512043782), (613.092629543, 291.508500084), (613.218327999, 291.506668278)],
                knots=[0, 0, 0, 0, 1.135776692, 2.191015738, 3.19649269, 4.151244236, 5.061952528, 5.956281389, 6.819534407, 7.692823504, 8.571441916, 9.478554956, 10.416037156, 11.406231466, 12.450054172, 13.561596327, 14.739541482, 16, 16, 16, 16], degree=3))
            add(Edge.make_bspline(
                [(613.218327999, 291.506668278), (613.423996012, 291.510791273), (613.810619321, 291.518541853), (614.349272542, 291.616708407), (614.810575885, 291.768742445), (615.189785268, 291.991387532), (615.490778961, 292.278756613), (615.698005174, 292.637320004), (615.824813318, 293.05638326), (615.837728413, 293.355975238), (615.844524288, 293.513619419)],
                knots=[0, 0, 0, 0, 1.308765556, 2.460272085, 3.475015317, 4.388076298, 5.239673503, 6.095681635, 6.997954785, 8, 8, 8, 8], degree=3))
            add(Edge.make_bspline(
                [(615.844524288, 293.513619419), (615.833808824, 293.638242951), (615.811807312, 293.894126055), (615.644884004, 294.264515838), (615.382382362, 294.620631473), (615.016807277, 294.962984909), (614.551376589, 295.293471235), (613.986957743, 295.616730224), (613.322148235, 295.933112033), (612.83677959, 296.119639164), (612.580430889, 296.21815395)],
                knots=[0, 0, 0, 0, 0.667930748, 1.371427933, 2.146459016, 3.034714139, 4.04893387, 5.207327294, 6.525042705, 8, 8, 8, 8], degree=3))
            add(Edge.make_bspline(
                [(612.580430889, 296.21815395), (612.374354345, 296.29679374), (611.970646869, 296.450850434), (611.394079385, 296.713586304), (610.853066711, 296.987016804), (610.357486361, 297.288235735), (609.896382561, 297.599610528), (609.477036946, 297.932256792), (609.09841673, 298.284556341), (608.758710772, 298.653375077), (608.457302107, 299.038989264), (608.199448649, 299.444659231), (607.977533299, 299.866789834), (607.798609588, 300.308107488), (607.65975715, 300.767821241), (607.559616231, 301.244439392), (607.497905054, 301.739995674), (607.491630423, 302.075933546), (607.488445186, 302.246468159)],
                knots=[0, 0, 0, 0, 1.249558333, 2.447906163, 3.58867143, 4.682264114, 5.731748367, 6.739728761, 7.711906036, 8.659384707, 9.578321416, 10.481344598, 11.379544271, 12.277135726, 13.175418307, 14.097160112, 15.034047388, 16, 16, 16, 16], degree=3))
            add(Edge.make_bspline(
                [(607.488445186, 302.246468159), (607.49282555, 302.439538736), (607.501402184, 302.817565692), (607.587451154, 303.36980586), (607.719291893, 303.894921371), (607.910558542, 304.389343064), (608.156192894, 304.852853762), (608.453187669, 305.288766511), (608.804241719, 305.697593471), (609.213503754, 306.066686531), (609.657214714, 306.407618241), (610.14376173, 306.697651931), (610.658716537, 306.950861947), (611.210636666, 307.148827868), (611.791820619, 307.313252612), (612.408080529, 307.421140415), (613.056315391, 307.490701612), (613.499160755, 307.498567824), (613.725661373, 307.502591129)],
                knots=[0, 0, 0, 0, 1.01033566, 1.978209831, 2.919499157, 3.840961976, 4.746855014, 5.660740114, 6.597989116, 7.56120833, 8.541877795, 9.523498025, 10.522416858, 11.542172371, 12.589598349, 13.681636521, 14.814234488, 16, 16, 16, 16], degree=3))
            add(Edge.make_bspline(
                [(613.725661373, 307.502591129), (613.968269855, 307.498219033), (614.438190994, 307.489750488), (615.120391152, 307.426787419), (615.755073228, 307.319142339), (616.345153155, 307.171557286), (616.887304575, 306.977590666), (617.384933999, 306.742393454), (617.834452216, 306.46201507), (618.236961315, 306.139451502), (618.593086714, 305.773322851), (618.897467704, 305.361641069), (619.158701245, 304.909408454), (619.366684143, 304.412232174), (619.529870326, 303.873247147), (619.649133834, 303.29158184), (619.720420497, 302.667301443), (619.72779778, 302.236712324), (619.731593227, 302.015183827)],
                knots=[0, 0, 0, 0, 1.248314423, 2.417925914, 3.521398822, 4.558068205, 5.543720209, 6.479599284, 7.385061127, 8.263440163, 9.127722873, 10.00561236, 10.891325273, 11.808802823, 12.772251995, 13.784947978, 14.860405143, 16, 16, 16, 16], degree=3))
        make_face()
    # profile 8 of 9: a face of its own
    with BuildSketch(Plane.XY):
        Polygon((633.989153194, 307.263846012), (633.989153194, 305.115139958), (628.020525264, 305.115139958), (628.020525264, 300.340237614), (633.034172725, 300.340237614), (633.034172725, 298.191531559), (628.020525264, 298.191531559), (628.020525264, 291.984158512), (634.944133663, 291.984158512), (634.944133663, 289.835452458), (622.290642452, 289.835452458), (622.290642452, 307.263846012), align=None)
    # profile 9 of 9: a face of its own
    with BuildSketch(Plane.XY):
        with BuildLine():
            Line((636.376604366, 289.835452458), (636.376604366, 307.263846012))
            Line((636.376604366, 307.263846012), (643.990335369, 307.263846012))
            add(Edge.make_bspline(
                [(643.990335369, 307.263846012), (644.237946498, 307.261150834), (644.721600887, 307.25588639), (645.426490561, 307.189203683), (646.094808274, 307.090496236), (646.724915796, 306.949857504), (647.317873659, 306.767252686), (647.871119087, 306.542146), (648.390701058, 306.282329135), (648.864494846, 305.976472528), (649.295093616, 305.642889252), (649.669668547, 305.279483604), (649.990389523, 304.894749072), (650.250664962, 304.483256345), (650.454275633, 304.048690948), (650.59581384, 303.587791605), (650.684089268, 303.104102537), (650.695510601, 302.772834174), (650.701311397, 302.604585835)],
                knots=[0, 0, 0, 0, 1.303269877, 2.545653735, 3.724355284, 4.8584284, 5.941462088, 6.987020715, 8.000098032, 8.995332524, 9.951400474, 10.863507538, 11.737823931, 12.582415999, 13.420128714, 14.25671499, 15.114600608, 16, 16, 16, 16], degree=3))
            add(Edge.make_bspline(
                [(650.701311397, 302.604585835), (650.698282873, 302.472674957), (650.692382063, 302.215658276), (650.651041486, 301.838684287), (650.580643818, 301.480313933), (650.481036683, 301.139915259), (650.347814833, 300.820175594), (650.191279492, 300.517863507), (650.009772227, 300.230553342), (649.788675198, 299.970497982), (649.548268341, 299.722842359), (649.274558803, 299.497116911), (648.974487035, 299.288655528), (648.642526299, 299.104010513), (648.287619671, 298.928055749), (647.899038177, 298.784921972), (647.486819978, 298.644749395), (647.19793098, 298.577036306), (647.049257183, 298.54218845)],
                knots=[0, 0, 0, 0, 1.057156483, 2.059775939, 3.035078039, 3.981068617, 4.897189472, 5.80650904, 6.70770952, 7.613691521, 8.536886357, 9.470937334, 10.45233069, 11.461024139, 12.51295332, 13.623444893, 14.776929983, 16, 16, 16, 16], degree=3))
            add(Edge.make_bspline(
                [(647.049257183, 298.54218845), (647.19164695, 298.499279419), (647.467865022, 298.416041346), (647.856360945, 298.265600017), (648.211652989, 298.111536308), (648.524185739, 297.936781388), (648.807636894, 297.762122504), (649.047122259, 297.564301324), (649.255235567, 297.361673563), (649.425188343, 297.135464734), (649.570253643, 296.882344437), (649.694827156, 296.586596707), (649.815179167, 296.247423665), (649.917667348, 295.859098311), (650.004750555, 295.423699276), (650.088222437, 294.944027189), (650.153853601, 294.416024546), (650.187587341, 294.048412906), (650.2051692, 293.856815525)],
                knots=[0, 0, 0, 0, 1.149282524, 2.229462177, 3.219229774, 4.139917433, 4.995948464, 5.788695735, 6.536448429, 7.236319808, 7.968460079, 8.78645307, 9.713791991, 10.749194692, 11.887975363, 13.146018663, 14.512518948, 16, 16, 16, 16], degree=3))
            add(Edge.make_bspline(
                [(650.2051692, 293.856815525), (650.225980287, 293.627849833), (650.265975604, 293.187817268), (650.348933081, 292.554613589), (650.44386163, 291.974357025), (650.555874504, 291.44528724), (650.681301216, 290.967898855), (650.821280597, 290.540469593), (650.979920039, 290.165788217), (651.10484481, 289.941461656), (651.163880062, 289.835452458)],
                knots=[0, 0, 0, 0, 1.324580516, 2.545615266, 3.678710841, 4.711533017, 5.660403917, 6.521349952, 7.301239649, 8, 8, 8, 8], degree=3))
            Line((651.163880062, 289.835452458), (645.213904094, 289.835452458))
            add(Edge.make_bspline(
                [(645.213904094, 289.835452458), (645.12229736, 290.069847279), (644.935171241, 290.548648246), (644.7595281, 291.319414791), (644.64846922, 292.142514735), (644.635117598, 292.70994511), (644.628232479, 293.002555653)],
                knots=[0, 0, 0, 0, 0.930410518, 1.900560147, 2.917368081, 4, 4, 4, 4], degree=3))
            Line((644.628232479, 293.002555653), (644.605850124, 294.002300831))
            Line((644.605850124, 294.002300831), (644.579737377, 295.266903874))
            add(Edge.make_bspline(
                [(644.579737377, 295.266903874), (644.573694669, 295.477395004), (644.562357007, 295.872330118), (644.469348432, 296.426164013), (644.30178735, 296.894645884), (644.073222546, 297.287223005), (643.766741442, 297.590613479), (643.39104803, 297.804152917), (642.950456912, 297.93396284), (642.634664848, 297.946292392), (642.468335247, 297.952786442)],
                knots=[0, 0, 0, 0, 1.295300309, 2.430314163, 3.439929415, 4.342995669, 5.203512789, 6.060756153, 6.978588463, 8, 8, 8, 8], degree=3))
            Line((642.468335247, 297.952786442), (642.106487178, 297.952786442))
            Line((642.106487178, 297.952786442), (642.106487178, 289.835452458))
            Line((642.106487178, 289.835452458), (636.376604366, 289.835452458))
        make_face()
        with BuildLine():
            Line((642.106487178, 299.862747379), (642.617550945, 299.862747379))
            add(Edge.make_bspline(
                [(642.617550945, 299.862747379), (642.722054451, 299.865172716), (642.925280724, 299.869889229), (643.220054897, 299.898289891), (643.494111408, 299.951809873), (643.749840966, 300.021017819), (643.984372137, 300.114851792), (644.200147241, 300.225818296), (644.391160406, 300.362685327), (644.565327067, 300.516342321), (644.718148635, 300.691986294), (644.850351299, 300.889034217), (644.961199162, 301.106225057), (645.056078491, 301.342818683), (645.125883912, 301.600830857), (645.173262731, 301.879472914), (645.203404658, 302.177423605), (645.207875435, 302.383174491), (645.210173702, 302.488943669)],
                knots=[0, 0, 0, 0, 1.184986479, 2.304423995, 3.352332712, 4.347714965, 5.303263624, 6.211353909, 7.091434645, 7.960150225, 8.839440182, 9.723126897, 10.64371617, 11.599264829, 12.608232147, 13.667459739, 14.800924404, 16, 16, 16, 16], degree=3))
            add(Edge.make_bspline(
                [(645.210173702, 302.488943669), (645.207875435, 302.594712847), (645.203404658, 302.800463732), (645.173262731, 303.098414423), (645.125883912, 303.37705648), (645.056078491, 303.635068654), (644.961199162, 303.87166228), (644.850351299, 304.08885312), (644.718148635, 304.285901043), (644.565327067, 304.461545017), (644.391160406, 304.61520201), (644.200147241, 304.752069041), (643.984372137, 304.863035546), (643.749840966, 304.956869518), (643.494111408, 305.026077464), (643.220054897, 305.079597446), (642.925280724, 305.107998108), (642.722054451, 305.112714621), (642.617550945, 305.115139958)],
                knots=[0, 0, 0, 0, 1.199075596, 2.332540261, 3.391767853, 4.400735171, 5.35628383, 6.276873103, 7.160559818, 8.039849775, 8.908565355, 9.788646091, 10.696736376, 11.652285035, 12.647667288, 13.695576005, 14.815013521, 16, 16, 16, 16], degree=3))
            Line((642.617550945, 305.115139958), (642.106487178, 305.115139958))
            Line((642.106487178, 305.115139958), (642.106487178, 299.862747379))
        make_face(mode=Mode.SUBTRACT)
    extrude(amount=BOSS_EXTRUDE4_DEPTH)

    # Sketch18 → Cut-Extrude10 (cut, two sides: drawn at the far end of the back side and taken through both)
    with BuildSketch(Plane.XY.offset(-CUT_EXTRUDE10_DEPTH_BACK)):
        with Locations((335, 405)):
            Rectangle(SKETCH18_W, SKETCH18_H)
    extrude(amount=CUT_EXTRUDE10_DEPTH + CUT_EXTRUDE10_DEPTH_BACK, mode=Mode.SUBTRACT)

    # Sketch19 → Cut-Extrude11 (cut, two sides: drawn at the far end of the back side and taken through both)
    with BuildSketch(Plane(origin=(0, 0, -120), x_dir=(-1, 0, 0), z_dir=(0, 0, -1)).offset(-CUT_EXTRUDE11_DEPTH_BACK)):
        with Locations((-224, 140)):
            Rectangle(SKETCH19_W, SKETCH19_H)
        with Locations((-614, 140)):
            Rectangle(SKETCH19_W_2, SKETCH19_H)
    extrude(amount=CUT_EXTRUDE11_DEPTH + CUT_EXTRUDE11_DEPTH_BACK, mode=Mode.SUBTRACT)

    # Sketch20 → Cut-Extrude12 (cut, two sides: drawn at the far end of the back side and taken through both)
    with BuildSketch(Plane.XY.offset(-100).offset(-CUT_EXTRUDE12_DEPTH_BACK)):
        with Locations((503, 70)):
            Rectangle(SKETCH20_W, SKETCH20_H)
    extrude(amount=CUT_EXTRUDE12_DEPTH + CUT_EXTRUDE12_DEPTH_BACK, mode=Mode.SUBTRACT)


with BuildPart() as body_2:
    # Sketch11 → Boss-Extrude3 (new body)
    with BuildSketch(Plane.XY.offset(-100)):
        with Locations((255, 60)):
            Rectangle(SKETCH11_W, SKETCH11_H)
    extrude(amount=BOSS_EXTRUDE3_DEPTH)


with BuildPart() as body_3:
    # Sketch11 → Boss-Extrude3 2 (new body)
    with BuildSketch(Plane.XY.offset(-100)):
        with Locations((415, 60)):
            Rectangle(SKETCH11_W, SKETCH11_H)
    extrude(amount=BOSS_EXTRUDE3_2_DEPTH)


with BuildPart() as body_4:
    # Sketch11 → Boss-Extrude3 3 (new body)
    with BuildSketch(Plane.XY.offset(-100)):
        Polygon((25, 198.45686471), (325, 145.558770497), (325, 122.01775856), (345, 122.01775856), (345, 145.558770497), (645, 198.45686471), align=None)
    extrude(amount=BOSS_EXTRUDE3_3_DEPTH)

    # Sketch15 → Cut-Extrude7 (cut)
    with BuildSketch(Plane(origin=(345, 0, 0), x_dir=(0, 0, -1), z_dir=(1, 0, 0))):
        with Locations((35, 133.231921672)):
            Rectangle(SKETCH15_W, SKETCH15_H)
        with Locations((85, 130.506698154)):
            Rectangle(SKETCH15_W, SKETCH15_H_2)
    extrude(amount=-CUT_EXTRUDE7_DEPTH, mode=Mode.SUBTRACT)

    # Shell1
    shell1_openings = [body_4.faces().sort_by_distance(p)[0] for p in [
        (335, 198.45686471, -61),
    ]]
    offset(amount=SHELL1_T, openings=shell1_openings, kind=Kind.INTERSECTION)

    # Sketch16 → Cut-Extrude8 (cut)
    with BuildSketch(Plane.XZ.offset(-122.01775856)):
        with Locations((335, -60)):
            Rectangle(SKETCH16_W, SKETCH16_H)
    extrude(amount=-CUT_EXTRUDE8_DEPTH, mode=Mode.SUBTRACT)


solid = part.part
